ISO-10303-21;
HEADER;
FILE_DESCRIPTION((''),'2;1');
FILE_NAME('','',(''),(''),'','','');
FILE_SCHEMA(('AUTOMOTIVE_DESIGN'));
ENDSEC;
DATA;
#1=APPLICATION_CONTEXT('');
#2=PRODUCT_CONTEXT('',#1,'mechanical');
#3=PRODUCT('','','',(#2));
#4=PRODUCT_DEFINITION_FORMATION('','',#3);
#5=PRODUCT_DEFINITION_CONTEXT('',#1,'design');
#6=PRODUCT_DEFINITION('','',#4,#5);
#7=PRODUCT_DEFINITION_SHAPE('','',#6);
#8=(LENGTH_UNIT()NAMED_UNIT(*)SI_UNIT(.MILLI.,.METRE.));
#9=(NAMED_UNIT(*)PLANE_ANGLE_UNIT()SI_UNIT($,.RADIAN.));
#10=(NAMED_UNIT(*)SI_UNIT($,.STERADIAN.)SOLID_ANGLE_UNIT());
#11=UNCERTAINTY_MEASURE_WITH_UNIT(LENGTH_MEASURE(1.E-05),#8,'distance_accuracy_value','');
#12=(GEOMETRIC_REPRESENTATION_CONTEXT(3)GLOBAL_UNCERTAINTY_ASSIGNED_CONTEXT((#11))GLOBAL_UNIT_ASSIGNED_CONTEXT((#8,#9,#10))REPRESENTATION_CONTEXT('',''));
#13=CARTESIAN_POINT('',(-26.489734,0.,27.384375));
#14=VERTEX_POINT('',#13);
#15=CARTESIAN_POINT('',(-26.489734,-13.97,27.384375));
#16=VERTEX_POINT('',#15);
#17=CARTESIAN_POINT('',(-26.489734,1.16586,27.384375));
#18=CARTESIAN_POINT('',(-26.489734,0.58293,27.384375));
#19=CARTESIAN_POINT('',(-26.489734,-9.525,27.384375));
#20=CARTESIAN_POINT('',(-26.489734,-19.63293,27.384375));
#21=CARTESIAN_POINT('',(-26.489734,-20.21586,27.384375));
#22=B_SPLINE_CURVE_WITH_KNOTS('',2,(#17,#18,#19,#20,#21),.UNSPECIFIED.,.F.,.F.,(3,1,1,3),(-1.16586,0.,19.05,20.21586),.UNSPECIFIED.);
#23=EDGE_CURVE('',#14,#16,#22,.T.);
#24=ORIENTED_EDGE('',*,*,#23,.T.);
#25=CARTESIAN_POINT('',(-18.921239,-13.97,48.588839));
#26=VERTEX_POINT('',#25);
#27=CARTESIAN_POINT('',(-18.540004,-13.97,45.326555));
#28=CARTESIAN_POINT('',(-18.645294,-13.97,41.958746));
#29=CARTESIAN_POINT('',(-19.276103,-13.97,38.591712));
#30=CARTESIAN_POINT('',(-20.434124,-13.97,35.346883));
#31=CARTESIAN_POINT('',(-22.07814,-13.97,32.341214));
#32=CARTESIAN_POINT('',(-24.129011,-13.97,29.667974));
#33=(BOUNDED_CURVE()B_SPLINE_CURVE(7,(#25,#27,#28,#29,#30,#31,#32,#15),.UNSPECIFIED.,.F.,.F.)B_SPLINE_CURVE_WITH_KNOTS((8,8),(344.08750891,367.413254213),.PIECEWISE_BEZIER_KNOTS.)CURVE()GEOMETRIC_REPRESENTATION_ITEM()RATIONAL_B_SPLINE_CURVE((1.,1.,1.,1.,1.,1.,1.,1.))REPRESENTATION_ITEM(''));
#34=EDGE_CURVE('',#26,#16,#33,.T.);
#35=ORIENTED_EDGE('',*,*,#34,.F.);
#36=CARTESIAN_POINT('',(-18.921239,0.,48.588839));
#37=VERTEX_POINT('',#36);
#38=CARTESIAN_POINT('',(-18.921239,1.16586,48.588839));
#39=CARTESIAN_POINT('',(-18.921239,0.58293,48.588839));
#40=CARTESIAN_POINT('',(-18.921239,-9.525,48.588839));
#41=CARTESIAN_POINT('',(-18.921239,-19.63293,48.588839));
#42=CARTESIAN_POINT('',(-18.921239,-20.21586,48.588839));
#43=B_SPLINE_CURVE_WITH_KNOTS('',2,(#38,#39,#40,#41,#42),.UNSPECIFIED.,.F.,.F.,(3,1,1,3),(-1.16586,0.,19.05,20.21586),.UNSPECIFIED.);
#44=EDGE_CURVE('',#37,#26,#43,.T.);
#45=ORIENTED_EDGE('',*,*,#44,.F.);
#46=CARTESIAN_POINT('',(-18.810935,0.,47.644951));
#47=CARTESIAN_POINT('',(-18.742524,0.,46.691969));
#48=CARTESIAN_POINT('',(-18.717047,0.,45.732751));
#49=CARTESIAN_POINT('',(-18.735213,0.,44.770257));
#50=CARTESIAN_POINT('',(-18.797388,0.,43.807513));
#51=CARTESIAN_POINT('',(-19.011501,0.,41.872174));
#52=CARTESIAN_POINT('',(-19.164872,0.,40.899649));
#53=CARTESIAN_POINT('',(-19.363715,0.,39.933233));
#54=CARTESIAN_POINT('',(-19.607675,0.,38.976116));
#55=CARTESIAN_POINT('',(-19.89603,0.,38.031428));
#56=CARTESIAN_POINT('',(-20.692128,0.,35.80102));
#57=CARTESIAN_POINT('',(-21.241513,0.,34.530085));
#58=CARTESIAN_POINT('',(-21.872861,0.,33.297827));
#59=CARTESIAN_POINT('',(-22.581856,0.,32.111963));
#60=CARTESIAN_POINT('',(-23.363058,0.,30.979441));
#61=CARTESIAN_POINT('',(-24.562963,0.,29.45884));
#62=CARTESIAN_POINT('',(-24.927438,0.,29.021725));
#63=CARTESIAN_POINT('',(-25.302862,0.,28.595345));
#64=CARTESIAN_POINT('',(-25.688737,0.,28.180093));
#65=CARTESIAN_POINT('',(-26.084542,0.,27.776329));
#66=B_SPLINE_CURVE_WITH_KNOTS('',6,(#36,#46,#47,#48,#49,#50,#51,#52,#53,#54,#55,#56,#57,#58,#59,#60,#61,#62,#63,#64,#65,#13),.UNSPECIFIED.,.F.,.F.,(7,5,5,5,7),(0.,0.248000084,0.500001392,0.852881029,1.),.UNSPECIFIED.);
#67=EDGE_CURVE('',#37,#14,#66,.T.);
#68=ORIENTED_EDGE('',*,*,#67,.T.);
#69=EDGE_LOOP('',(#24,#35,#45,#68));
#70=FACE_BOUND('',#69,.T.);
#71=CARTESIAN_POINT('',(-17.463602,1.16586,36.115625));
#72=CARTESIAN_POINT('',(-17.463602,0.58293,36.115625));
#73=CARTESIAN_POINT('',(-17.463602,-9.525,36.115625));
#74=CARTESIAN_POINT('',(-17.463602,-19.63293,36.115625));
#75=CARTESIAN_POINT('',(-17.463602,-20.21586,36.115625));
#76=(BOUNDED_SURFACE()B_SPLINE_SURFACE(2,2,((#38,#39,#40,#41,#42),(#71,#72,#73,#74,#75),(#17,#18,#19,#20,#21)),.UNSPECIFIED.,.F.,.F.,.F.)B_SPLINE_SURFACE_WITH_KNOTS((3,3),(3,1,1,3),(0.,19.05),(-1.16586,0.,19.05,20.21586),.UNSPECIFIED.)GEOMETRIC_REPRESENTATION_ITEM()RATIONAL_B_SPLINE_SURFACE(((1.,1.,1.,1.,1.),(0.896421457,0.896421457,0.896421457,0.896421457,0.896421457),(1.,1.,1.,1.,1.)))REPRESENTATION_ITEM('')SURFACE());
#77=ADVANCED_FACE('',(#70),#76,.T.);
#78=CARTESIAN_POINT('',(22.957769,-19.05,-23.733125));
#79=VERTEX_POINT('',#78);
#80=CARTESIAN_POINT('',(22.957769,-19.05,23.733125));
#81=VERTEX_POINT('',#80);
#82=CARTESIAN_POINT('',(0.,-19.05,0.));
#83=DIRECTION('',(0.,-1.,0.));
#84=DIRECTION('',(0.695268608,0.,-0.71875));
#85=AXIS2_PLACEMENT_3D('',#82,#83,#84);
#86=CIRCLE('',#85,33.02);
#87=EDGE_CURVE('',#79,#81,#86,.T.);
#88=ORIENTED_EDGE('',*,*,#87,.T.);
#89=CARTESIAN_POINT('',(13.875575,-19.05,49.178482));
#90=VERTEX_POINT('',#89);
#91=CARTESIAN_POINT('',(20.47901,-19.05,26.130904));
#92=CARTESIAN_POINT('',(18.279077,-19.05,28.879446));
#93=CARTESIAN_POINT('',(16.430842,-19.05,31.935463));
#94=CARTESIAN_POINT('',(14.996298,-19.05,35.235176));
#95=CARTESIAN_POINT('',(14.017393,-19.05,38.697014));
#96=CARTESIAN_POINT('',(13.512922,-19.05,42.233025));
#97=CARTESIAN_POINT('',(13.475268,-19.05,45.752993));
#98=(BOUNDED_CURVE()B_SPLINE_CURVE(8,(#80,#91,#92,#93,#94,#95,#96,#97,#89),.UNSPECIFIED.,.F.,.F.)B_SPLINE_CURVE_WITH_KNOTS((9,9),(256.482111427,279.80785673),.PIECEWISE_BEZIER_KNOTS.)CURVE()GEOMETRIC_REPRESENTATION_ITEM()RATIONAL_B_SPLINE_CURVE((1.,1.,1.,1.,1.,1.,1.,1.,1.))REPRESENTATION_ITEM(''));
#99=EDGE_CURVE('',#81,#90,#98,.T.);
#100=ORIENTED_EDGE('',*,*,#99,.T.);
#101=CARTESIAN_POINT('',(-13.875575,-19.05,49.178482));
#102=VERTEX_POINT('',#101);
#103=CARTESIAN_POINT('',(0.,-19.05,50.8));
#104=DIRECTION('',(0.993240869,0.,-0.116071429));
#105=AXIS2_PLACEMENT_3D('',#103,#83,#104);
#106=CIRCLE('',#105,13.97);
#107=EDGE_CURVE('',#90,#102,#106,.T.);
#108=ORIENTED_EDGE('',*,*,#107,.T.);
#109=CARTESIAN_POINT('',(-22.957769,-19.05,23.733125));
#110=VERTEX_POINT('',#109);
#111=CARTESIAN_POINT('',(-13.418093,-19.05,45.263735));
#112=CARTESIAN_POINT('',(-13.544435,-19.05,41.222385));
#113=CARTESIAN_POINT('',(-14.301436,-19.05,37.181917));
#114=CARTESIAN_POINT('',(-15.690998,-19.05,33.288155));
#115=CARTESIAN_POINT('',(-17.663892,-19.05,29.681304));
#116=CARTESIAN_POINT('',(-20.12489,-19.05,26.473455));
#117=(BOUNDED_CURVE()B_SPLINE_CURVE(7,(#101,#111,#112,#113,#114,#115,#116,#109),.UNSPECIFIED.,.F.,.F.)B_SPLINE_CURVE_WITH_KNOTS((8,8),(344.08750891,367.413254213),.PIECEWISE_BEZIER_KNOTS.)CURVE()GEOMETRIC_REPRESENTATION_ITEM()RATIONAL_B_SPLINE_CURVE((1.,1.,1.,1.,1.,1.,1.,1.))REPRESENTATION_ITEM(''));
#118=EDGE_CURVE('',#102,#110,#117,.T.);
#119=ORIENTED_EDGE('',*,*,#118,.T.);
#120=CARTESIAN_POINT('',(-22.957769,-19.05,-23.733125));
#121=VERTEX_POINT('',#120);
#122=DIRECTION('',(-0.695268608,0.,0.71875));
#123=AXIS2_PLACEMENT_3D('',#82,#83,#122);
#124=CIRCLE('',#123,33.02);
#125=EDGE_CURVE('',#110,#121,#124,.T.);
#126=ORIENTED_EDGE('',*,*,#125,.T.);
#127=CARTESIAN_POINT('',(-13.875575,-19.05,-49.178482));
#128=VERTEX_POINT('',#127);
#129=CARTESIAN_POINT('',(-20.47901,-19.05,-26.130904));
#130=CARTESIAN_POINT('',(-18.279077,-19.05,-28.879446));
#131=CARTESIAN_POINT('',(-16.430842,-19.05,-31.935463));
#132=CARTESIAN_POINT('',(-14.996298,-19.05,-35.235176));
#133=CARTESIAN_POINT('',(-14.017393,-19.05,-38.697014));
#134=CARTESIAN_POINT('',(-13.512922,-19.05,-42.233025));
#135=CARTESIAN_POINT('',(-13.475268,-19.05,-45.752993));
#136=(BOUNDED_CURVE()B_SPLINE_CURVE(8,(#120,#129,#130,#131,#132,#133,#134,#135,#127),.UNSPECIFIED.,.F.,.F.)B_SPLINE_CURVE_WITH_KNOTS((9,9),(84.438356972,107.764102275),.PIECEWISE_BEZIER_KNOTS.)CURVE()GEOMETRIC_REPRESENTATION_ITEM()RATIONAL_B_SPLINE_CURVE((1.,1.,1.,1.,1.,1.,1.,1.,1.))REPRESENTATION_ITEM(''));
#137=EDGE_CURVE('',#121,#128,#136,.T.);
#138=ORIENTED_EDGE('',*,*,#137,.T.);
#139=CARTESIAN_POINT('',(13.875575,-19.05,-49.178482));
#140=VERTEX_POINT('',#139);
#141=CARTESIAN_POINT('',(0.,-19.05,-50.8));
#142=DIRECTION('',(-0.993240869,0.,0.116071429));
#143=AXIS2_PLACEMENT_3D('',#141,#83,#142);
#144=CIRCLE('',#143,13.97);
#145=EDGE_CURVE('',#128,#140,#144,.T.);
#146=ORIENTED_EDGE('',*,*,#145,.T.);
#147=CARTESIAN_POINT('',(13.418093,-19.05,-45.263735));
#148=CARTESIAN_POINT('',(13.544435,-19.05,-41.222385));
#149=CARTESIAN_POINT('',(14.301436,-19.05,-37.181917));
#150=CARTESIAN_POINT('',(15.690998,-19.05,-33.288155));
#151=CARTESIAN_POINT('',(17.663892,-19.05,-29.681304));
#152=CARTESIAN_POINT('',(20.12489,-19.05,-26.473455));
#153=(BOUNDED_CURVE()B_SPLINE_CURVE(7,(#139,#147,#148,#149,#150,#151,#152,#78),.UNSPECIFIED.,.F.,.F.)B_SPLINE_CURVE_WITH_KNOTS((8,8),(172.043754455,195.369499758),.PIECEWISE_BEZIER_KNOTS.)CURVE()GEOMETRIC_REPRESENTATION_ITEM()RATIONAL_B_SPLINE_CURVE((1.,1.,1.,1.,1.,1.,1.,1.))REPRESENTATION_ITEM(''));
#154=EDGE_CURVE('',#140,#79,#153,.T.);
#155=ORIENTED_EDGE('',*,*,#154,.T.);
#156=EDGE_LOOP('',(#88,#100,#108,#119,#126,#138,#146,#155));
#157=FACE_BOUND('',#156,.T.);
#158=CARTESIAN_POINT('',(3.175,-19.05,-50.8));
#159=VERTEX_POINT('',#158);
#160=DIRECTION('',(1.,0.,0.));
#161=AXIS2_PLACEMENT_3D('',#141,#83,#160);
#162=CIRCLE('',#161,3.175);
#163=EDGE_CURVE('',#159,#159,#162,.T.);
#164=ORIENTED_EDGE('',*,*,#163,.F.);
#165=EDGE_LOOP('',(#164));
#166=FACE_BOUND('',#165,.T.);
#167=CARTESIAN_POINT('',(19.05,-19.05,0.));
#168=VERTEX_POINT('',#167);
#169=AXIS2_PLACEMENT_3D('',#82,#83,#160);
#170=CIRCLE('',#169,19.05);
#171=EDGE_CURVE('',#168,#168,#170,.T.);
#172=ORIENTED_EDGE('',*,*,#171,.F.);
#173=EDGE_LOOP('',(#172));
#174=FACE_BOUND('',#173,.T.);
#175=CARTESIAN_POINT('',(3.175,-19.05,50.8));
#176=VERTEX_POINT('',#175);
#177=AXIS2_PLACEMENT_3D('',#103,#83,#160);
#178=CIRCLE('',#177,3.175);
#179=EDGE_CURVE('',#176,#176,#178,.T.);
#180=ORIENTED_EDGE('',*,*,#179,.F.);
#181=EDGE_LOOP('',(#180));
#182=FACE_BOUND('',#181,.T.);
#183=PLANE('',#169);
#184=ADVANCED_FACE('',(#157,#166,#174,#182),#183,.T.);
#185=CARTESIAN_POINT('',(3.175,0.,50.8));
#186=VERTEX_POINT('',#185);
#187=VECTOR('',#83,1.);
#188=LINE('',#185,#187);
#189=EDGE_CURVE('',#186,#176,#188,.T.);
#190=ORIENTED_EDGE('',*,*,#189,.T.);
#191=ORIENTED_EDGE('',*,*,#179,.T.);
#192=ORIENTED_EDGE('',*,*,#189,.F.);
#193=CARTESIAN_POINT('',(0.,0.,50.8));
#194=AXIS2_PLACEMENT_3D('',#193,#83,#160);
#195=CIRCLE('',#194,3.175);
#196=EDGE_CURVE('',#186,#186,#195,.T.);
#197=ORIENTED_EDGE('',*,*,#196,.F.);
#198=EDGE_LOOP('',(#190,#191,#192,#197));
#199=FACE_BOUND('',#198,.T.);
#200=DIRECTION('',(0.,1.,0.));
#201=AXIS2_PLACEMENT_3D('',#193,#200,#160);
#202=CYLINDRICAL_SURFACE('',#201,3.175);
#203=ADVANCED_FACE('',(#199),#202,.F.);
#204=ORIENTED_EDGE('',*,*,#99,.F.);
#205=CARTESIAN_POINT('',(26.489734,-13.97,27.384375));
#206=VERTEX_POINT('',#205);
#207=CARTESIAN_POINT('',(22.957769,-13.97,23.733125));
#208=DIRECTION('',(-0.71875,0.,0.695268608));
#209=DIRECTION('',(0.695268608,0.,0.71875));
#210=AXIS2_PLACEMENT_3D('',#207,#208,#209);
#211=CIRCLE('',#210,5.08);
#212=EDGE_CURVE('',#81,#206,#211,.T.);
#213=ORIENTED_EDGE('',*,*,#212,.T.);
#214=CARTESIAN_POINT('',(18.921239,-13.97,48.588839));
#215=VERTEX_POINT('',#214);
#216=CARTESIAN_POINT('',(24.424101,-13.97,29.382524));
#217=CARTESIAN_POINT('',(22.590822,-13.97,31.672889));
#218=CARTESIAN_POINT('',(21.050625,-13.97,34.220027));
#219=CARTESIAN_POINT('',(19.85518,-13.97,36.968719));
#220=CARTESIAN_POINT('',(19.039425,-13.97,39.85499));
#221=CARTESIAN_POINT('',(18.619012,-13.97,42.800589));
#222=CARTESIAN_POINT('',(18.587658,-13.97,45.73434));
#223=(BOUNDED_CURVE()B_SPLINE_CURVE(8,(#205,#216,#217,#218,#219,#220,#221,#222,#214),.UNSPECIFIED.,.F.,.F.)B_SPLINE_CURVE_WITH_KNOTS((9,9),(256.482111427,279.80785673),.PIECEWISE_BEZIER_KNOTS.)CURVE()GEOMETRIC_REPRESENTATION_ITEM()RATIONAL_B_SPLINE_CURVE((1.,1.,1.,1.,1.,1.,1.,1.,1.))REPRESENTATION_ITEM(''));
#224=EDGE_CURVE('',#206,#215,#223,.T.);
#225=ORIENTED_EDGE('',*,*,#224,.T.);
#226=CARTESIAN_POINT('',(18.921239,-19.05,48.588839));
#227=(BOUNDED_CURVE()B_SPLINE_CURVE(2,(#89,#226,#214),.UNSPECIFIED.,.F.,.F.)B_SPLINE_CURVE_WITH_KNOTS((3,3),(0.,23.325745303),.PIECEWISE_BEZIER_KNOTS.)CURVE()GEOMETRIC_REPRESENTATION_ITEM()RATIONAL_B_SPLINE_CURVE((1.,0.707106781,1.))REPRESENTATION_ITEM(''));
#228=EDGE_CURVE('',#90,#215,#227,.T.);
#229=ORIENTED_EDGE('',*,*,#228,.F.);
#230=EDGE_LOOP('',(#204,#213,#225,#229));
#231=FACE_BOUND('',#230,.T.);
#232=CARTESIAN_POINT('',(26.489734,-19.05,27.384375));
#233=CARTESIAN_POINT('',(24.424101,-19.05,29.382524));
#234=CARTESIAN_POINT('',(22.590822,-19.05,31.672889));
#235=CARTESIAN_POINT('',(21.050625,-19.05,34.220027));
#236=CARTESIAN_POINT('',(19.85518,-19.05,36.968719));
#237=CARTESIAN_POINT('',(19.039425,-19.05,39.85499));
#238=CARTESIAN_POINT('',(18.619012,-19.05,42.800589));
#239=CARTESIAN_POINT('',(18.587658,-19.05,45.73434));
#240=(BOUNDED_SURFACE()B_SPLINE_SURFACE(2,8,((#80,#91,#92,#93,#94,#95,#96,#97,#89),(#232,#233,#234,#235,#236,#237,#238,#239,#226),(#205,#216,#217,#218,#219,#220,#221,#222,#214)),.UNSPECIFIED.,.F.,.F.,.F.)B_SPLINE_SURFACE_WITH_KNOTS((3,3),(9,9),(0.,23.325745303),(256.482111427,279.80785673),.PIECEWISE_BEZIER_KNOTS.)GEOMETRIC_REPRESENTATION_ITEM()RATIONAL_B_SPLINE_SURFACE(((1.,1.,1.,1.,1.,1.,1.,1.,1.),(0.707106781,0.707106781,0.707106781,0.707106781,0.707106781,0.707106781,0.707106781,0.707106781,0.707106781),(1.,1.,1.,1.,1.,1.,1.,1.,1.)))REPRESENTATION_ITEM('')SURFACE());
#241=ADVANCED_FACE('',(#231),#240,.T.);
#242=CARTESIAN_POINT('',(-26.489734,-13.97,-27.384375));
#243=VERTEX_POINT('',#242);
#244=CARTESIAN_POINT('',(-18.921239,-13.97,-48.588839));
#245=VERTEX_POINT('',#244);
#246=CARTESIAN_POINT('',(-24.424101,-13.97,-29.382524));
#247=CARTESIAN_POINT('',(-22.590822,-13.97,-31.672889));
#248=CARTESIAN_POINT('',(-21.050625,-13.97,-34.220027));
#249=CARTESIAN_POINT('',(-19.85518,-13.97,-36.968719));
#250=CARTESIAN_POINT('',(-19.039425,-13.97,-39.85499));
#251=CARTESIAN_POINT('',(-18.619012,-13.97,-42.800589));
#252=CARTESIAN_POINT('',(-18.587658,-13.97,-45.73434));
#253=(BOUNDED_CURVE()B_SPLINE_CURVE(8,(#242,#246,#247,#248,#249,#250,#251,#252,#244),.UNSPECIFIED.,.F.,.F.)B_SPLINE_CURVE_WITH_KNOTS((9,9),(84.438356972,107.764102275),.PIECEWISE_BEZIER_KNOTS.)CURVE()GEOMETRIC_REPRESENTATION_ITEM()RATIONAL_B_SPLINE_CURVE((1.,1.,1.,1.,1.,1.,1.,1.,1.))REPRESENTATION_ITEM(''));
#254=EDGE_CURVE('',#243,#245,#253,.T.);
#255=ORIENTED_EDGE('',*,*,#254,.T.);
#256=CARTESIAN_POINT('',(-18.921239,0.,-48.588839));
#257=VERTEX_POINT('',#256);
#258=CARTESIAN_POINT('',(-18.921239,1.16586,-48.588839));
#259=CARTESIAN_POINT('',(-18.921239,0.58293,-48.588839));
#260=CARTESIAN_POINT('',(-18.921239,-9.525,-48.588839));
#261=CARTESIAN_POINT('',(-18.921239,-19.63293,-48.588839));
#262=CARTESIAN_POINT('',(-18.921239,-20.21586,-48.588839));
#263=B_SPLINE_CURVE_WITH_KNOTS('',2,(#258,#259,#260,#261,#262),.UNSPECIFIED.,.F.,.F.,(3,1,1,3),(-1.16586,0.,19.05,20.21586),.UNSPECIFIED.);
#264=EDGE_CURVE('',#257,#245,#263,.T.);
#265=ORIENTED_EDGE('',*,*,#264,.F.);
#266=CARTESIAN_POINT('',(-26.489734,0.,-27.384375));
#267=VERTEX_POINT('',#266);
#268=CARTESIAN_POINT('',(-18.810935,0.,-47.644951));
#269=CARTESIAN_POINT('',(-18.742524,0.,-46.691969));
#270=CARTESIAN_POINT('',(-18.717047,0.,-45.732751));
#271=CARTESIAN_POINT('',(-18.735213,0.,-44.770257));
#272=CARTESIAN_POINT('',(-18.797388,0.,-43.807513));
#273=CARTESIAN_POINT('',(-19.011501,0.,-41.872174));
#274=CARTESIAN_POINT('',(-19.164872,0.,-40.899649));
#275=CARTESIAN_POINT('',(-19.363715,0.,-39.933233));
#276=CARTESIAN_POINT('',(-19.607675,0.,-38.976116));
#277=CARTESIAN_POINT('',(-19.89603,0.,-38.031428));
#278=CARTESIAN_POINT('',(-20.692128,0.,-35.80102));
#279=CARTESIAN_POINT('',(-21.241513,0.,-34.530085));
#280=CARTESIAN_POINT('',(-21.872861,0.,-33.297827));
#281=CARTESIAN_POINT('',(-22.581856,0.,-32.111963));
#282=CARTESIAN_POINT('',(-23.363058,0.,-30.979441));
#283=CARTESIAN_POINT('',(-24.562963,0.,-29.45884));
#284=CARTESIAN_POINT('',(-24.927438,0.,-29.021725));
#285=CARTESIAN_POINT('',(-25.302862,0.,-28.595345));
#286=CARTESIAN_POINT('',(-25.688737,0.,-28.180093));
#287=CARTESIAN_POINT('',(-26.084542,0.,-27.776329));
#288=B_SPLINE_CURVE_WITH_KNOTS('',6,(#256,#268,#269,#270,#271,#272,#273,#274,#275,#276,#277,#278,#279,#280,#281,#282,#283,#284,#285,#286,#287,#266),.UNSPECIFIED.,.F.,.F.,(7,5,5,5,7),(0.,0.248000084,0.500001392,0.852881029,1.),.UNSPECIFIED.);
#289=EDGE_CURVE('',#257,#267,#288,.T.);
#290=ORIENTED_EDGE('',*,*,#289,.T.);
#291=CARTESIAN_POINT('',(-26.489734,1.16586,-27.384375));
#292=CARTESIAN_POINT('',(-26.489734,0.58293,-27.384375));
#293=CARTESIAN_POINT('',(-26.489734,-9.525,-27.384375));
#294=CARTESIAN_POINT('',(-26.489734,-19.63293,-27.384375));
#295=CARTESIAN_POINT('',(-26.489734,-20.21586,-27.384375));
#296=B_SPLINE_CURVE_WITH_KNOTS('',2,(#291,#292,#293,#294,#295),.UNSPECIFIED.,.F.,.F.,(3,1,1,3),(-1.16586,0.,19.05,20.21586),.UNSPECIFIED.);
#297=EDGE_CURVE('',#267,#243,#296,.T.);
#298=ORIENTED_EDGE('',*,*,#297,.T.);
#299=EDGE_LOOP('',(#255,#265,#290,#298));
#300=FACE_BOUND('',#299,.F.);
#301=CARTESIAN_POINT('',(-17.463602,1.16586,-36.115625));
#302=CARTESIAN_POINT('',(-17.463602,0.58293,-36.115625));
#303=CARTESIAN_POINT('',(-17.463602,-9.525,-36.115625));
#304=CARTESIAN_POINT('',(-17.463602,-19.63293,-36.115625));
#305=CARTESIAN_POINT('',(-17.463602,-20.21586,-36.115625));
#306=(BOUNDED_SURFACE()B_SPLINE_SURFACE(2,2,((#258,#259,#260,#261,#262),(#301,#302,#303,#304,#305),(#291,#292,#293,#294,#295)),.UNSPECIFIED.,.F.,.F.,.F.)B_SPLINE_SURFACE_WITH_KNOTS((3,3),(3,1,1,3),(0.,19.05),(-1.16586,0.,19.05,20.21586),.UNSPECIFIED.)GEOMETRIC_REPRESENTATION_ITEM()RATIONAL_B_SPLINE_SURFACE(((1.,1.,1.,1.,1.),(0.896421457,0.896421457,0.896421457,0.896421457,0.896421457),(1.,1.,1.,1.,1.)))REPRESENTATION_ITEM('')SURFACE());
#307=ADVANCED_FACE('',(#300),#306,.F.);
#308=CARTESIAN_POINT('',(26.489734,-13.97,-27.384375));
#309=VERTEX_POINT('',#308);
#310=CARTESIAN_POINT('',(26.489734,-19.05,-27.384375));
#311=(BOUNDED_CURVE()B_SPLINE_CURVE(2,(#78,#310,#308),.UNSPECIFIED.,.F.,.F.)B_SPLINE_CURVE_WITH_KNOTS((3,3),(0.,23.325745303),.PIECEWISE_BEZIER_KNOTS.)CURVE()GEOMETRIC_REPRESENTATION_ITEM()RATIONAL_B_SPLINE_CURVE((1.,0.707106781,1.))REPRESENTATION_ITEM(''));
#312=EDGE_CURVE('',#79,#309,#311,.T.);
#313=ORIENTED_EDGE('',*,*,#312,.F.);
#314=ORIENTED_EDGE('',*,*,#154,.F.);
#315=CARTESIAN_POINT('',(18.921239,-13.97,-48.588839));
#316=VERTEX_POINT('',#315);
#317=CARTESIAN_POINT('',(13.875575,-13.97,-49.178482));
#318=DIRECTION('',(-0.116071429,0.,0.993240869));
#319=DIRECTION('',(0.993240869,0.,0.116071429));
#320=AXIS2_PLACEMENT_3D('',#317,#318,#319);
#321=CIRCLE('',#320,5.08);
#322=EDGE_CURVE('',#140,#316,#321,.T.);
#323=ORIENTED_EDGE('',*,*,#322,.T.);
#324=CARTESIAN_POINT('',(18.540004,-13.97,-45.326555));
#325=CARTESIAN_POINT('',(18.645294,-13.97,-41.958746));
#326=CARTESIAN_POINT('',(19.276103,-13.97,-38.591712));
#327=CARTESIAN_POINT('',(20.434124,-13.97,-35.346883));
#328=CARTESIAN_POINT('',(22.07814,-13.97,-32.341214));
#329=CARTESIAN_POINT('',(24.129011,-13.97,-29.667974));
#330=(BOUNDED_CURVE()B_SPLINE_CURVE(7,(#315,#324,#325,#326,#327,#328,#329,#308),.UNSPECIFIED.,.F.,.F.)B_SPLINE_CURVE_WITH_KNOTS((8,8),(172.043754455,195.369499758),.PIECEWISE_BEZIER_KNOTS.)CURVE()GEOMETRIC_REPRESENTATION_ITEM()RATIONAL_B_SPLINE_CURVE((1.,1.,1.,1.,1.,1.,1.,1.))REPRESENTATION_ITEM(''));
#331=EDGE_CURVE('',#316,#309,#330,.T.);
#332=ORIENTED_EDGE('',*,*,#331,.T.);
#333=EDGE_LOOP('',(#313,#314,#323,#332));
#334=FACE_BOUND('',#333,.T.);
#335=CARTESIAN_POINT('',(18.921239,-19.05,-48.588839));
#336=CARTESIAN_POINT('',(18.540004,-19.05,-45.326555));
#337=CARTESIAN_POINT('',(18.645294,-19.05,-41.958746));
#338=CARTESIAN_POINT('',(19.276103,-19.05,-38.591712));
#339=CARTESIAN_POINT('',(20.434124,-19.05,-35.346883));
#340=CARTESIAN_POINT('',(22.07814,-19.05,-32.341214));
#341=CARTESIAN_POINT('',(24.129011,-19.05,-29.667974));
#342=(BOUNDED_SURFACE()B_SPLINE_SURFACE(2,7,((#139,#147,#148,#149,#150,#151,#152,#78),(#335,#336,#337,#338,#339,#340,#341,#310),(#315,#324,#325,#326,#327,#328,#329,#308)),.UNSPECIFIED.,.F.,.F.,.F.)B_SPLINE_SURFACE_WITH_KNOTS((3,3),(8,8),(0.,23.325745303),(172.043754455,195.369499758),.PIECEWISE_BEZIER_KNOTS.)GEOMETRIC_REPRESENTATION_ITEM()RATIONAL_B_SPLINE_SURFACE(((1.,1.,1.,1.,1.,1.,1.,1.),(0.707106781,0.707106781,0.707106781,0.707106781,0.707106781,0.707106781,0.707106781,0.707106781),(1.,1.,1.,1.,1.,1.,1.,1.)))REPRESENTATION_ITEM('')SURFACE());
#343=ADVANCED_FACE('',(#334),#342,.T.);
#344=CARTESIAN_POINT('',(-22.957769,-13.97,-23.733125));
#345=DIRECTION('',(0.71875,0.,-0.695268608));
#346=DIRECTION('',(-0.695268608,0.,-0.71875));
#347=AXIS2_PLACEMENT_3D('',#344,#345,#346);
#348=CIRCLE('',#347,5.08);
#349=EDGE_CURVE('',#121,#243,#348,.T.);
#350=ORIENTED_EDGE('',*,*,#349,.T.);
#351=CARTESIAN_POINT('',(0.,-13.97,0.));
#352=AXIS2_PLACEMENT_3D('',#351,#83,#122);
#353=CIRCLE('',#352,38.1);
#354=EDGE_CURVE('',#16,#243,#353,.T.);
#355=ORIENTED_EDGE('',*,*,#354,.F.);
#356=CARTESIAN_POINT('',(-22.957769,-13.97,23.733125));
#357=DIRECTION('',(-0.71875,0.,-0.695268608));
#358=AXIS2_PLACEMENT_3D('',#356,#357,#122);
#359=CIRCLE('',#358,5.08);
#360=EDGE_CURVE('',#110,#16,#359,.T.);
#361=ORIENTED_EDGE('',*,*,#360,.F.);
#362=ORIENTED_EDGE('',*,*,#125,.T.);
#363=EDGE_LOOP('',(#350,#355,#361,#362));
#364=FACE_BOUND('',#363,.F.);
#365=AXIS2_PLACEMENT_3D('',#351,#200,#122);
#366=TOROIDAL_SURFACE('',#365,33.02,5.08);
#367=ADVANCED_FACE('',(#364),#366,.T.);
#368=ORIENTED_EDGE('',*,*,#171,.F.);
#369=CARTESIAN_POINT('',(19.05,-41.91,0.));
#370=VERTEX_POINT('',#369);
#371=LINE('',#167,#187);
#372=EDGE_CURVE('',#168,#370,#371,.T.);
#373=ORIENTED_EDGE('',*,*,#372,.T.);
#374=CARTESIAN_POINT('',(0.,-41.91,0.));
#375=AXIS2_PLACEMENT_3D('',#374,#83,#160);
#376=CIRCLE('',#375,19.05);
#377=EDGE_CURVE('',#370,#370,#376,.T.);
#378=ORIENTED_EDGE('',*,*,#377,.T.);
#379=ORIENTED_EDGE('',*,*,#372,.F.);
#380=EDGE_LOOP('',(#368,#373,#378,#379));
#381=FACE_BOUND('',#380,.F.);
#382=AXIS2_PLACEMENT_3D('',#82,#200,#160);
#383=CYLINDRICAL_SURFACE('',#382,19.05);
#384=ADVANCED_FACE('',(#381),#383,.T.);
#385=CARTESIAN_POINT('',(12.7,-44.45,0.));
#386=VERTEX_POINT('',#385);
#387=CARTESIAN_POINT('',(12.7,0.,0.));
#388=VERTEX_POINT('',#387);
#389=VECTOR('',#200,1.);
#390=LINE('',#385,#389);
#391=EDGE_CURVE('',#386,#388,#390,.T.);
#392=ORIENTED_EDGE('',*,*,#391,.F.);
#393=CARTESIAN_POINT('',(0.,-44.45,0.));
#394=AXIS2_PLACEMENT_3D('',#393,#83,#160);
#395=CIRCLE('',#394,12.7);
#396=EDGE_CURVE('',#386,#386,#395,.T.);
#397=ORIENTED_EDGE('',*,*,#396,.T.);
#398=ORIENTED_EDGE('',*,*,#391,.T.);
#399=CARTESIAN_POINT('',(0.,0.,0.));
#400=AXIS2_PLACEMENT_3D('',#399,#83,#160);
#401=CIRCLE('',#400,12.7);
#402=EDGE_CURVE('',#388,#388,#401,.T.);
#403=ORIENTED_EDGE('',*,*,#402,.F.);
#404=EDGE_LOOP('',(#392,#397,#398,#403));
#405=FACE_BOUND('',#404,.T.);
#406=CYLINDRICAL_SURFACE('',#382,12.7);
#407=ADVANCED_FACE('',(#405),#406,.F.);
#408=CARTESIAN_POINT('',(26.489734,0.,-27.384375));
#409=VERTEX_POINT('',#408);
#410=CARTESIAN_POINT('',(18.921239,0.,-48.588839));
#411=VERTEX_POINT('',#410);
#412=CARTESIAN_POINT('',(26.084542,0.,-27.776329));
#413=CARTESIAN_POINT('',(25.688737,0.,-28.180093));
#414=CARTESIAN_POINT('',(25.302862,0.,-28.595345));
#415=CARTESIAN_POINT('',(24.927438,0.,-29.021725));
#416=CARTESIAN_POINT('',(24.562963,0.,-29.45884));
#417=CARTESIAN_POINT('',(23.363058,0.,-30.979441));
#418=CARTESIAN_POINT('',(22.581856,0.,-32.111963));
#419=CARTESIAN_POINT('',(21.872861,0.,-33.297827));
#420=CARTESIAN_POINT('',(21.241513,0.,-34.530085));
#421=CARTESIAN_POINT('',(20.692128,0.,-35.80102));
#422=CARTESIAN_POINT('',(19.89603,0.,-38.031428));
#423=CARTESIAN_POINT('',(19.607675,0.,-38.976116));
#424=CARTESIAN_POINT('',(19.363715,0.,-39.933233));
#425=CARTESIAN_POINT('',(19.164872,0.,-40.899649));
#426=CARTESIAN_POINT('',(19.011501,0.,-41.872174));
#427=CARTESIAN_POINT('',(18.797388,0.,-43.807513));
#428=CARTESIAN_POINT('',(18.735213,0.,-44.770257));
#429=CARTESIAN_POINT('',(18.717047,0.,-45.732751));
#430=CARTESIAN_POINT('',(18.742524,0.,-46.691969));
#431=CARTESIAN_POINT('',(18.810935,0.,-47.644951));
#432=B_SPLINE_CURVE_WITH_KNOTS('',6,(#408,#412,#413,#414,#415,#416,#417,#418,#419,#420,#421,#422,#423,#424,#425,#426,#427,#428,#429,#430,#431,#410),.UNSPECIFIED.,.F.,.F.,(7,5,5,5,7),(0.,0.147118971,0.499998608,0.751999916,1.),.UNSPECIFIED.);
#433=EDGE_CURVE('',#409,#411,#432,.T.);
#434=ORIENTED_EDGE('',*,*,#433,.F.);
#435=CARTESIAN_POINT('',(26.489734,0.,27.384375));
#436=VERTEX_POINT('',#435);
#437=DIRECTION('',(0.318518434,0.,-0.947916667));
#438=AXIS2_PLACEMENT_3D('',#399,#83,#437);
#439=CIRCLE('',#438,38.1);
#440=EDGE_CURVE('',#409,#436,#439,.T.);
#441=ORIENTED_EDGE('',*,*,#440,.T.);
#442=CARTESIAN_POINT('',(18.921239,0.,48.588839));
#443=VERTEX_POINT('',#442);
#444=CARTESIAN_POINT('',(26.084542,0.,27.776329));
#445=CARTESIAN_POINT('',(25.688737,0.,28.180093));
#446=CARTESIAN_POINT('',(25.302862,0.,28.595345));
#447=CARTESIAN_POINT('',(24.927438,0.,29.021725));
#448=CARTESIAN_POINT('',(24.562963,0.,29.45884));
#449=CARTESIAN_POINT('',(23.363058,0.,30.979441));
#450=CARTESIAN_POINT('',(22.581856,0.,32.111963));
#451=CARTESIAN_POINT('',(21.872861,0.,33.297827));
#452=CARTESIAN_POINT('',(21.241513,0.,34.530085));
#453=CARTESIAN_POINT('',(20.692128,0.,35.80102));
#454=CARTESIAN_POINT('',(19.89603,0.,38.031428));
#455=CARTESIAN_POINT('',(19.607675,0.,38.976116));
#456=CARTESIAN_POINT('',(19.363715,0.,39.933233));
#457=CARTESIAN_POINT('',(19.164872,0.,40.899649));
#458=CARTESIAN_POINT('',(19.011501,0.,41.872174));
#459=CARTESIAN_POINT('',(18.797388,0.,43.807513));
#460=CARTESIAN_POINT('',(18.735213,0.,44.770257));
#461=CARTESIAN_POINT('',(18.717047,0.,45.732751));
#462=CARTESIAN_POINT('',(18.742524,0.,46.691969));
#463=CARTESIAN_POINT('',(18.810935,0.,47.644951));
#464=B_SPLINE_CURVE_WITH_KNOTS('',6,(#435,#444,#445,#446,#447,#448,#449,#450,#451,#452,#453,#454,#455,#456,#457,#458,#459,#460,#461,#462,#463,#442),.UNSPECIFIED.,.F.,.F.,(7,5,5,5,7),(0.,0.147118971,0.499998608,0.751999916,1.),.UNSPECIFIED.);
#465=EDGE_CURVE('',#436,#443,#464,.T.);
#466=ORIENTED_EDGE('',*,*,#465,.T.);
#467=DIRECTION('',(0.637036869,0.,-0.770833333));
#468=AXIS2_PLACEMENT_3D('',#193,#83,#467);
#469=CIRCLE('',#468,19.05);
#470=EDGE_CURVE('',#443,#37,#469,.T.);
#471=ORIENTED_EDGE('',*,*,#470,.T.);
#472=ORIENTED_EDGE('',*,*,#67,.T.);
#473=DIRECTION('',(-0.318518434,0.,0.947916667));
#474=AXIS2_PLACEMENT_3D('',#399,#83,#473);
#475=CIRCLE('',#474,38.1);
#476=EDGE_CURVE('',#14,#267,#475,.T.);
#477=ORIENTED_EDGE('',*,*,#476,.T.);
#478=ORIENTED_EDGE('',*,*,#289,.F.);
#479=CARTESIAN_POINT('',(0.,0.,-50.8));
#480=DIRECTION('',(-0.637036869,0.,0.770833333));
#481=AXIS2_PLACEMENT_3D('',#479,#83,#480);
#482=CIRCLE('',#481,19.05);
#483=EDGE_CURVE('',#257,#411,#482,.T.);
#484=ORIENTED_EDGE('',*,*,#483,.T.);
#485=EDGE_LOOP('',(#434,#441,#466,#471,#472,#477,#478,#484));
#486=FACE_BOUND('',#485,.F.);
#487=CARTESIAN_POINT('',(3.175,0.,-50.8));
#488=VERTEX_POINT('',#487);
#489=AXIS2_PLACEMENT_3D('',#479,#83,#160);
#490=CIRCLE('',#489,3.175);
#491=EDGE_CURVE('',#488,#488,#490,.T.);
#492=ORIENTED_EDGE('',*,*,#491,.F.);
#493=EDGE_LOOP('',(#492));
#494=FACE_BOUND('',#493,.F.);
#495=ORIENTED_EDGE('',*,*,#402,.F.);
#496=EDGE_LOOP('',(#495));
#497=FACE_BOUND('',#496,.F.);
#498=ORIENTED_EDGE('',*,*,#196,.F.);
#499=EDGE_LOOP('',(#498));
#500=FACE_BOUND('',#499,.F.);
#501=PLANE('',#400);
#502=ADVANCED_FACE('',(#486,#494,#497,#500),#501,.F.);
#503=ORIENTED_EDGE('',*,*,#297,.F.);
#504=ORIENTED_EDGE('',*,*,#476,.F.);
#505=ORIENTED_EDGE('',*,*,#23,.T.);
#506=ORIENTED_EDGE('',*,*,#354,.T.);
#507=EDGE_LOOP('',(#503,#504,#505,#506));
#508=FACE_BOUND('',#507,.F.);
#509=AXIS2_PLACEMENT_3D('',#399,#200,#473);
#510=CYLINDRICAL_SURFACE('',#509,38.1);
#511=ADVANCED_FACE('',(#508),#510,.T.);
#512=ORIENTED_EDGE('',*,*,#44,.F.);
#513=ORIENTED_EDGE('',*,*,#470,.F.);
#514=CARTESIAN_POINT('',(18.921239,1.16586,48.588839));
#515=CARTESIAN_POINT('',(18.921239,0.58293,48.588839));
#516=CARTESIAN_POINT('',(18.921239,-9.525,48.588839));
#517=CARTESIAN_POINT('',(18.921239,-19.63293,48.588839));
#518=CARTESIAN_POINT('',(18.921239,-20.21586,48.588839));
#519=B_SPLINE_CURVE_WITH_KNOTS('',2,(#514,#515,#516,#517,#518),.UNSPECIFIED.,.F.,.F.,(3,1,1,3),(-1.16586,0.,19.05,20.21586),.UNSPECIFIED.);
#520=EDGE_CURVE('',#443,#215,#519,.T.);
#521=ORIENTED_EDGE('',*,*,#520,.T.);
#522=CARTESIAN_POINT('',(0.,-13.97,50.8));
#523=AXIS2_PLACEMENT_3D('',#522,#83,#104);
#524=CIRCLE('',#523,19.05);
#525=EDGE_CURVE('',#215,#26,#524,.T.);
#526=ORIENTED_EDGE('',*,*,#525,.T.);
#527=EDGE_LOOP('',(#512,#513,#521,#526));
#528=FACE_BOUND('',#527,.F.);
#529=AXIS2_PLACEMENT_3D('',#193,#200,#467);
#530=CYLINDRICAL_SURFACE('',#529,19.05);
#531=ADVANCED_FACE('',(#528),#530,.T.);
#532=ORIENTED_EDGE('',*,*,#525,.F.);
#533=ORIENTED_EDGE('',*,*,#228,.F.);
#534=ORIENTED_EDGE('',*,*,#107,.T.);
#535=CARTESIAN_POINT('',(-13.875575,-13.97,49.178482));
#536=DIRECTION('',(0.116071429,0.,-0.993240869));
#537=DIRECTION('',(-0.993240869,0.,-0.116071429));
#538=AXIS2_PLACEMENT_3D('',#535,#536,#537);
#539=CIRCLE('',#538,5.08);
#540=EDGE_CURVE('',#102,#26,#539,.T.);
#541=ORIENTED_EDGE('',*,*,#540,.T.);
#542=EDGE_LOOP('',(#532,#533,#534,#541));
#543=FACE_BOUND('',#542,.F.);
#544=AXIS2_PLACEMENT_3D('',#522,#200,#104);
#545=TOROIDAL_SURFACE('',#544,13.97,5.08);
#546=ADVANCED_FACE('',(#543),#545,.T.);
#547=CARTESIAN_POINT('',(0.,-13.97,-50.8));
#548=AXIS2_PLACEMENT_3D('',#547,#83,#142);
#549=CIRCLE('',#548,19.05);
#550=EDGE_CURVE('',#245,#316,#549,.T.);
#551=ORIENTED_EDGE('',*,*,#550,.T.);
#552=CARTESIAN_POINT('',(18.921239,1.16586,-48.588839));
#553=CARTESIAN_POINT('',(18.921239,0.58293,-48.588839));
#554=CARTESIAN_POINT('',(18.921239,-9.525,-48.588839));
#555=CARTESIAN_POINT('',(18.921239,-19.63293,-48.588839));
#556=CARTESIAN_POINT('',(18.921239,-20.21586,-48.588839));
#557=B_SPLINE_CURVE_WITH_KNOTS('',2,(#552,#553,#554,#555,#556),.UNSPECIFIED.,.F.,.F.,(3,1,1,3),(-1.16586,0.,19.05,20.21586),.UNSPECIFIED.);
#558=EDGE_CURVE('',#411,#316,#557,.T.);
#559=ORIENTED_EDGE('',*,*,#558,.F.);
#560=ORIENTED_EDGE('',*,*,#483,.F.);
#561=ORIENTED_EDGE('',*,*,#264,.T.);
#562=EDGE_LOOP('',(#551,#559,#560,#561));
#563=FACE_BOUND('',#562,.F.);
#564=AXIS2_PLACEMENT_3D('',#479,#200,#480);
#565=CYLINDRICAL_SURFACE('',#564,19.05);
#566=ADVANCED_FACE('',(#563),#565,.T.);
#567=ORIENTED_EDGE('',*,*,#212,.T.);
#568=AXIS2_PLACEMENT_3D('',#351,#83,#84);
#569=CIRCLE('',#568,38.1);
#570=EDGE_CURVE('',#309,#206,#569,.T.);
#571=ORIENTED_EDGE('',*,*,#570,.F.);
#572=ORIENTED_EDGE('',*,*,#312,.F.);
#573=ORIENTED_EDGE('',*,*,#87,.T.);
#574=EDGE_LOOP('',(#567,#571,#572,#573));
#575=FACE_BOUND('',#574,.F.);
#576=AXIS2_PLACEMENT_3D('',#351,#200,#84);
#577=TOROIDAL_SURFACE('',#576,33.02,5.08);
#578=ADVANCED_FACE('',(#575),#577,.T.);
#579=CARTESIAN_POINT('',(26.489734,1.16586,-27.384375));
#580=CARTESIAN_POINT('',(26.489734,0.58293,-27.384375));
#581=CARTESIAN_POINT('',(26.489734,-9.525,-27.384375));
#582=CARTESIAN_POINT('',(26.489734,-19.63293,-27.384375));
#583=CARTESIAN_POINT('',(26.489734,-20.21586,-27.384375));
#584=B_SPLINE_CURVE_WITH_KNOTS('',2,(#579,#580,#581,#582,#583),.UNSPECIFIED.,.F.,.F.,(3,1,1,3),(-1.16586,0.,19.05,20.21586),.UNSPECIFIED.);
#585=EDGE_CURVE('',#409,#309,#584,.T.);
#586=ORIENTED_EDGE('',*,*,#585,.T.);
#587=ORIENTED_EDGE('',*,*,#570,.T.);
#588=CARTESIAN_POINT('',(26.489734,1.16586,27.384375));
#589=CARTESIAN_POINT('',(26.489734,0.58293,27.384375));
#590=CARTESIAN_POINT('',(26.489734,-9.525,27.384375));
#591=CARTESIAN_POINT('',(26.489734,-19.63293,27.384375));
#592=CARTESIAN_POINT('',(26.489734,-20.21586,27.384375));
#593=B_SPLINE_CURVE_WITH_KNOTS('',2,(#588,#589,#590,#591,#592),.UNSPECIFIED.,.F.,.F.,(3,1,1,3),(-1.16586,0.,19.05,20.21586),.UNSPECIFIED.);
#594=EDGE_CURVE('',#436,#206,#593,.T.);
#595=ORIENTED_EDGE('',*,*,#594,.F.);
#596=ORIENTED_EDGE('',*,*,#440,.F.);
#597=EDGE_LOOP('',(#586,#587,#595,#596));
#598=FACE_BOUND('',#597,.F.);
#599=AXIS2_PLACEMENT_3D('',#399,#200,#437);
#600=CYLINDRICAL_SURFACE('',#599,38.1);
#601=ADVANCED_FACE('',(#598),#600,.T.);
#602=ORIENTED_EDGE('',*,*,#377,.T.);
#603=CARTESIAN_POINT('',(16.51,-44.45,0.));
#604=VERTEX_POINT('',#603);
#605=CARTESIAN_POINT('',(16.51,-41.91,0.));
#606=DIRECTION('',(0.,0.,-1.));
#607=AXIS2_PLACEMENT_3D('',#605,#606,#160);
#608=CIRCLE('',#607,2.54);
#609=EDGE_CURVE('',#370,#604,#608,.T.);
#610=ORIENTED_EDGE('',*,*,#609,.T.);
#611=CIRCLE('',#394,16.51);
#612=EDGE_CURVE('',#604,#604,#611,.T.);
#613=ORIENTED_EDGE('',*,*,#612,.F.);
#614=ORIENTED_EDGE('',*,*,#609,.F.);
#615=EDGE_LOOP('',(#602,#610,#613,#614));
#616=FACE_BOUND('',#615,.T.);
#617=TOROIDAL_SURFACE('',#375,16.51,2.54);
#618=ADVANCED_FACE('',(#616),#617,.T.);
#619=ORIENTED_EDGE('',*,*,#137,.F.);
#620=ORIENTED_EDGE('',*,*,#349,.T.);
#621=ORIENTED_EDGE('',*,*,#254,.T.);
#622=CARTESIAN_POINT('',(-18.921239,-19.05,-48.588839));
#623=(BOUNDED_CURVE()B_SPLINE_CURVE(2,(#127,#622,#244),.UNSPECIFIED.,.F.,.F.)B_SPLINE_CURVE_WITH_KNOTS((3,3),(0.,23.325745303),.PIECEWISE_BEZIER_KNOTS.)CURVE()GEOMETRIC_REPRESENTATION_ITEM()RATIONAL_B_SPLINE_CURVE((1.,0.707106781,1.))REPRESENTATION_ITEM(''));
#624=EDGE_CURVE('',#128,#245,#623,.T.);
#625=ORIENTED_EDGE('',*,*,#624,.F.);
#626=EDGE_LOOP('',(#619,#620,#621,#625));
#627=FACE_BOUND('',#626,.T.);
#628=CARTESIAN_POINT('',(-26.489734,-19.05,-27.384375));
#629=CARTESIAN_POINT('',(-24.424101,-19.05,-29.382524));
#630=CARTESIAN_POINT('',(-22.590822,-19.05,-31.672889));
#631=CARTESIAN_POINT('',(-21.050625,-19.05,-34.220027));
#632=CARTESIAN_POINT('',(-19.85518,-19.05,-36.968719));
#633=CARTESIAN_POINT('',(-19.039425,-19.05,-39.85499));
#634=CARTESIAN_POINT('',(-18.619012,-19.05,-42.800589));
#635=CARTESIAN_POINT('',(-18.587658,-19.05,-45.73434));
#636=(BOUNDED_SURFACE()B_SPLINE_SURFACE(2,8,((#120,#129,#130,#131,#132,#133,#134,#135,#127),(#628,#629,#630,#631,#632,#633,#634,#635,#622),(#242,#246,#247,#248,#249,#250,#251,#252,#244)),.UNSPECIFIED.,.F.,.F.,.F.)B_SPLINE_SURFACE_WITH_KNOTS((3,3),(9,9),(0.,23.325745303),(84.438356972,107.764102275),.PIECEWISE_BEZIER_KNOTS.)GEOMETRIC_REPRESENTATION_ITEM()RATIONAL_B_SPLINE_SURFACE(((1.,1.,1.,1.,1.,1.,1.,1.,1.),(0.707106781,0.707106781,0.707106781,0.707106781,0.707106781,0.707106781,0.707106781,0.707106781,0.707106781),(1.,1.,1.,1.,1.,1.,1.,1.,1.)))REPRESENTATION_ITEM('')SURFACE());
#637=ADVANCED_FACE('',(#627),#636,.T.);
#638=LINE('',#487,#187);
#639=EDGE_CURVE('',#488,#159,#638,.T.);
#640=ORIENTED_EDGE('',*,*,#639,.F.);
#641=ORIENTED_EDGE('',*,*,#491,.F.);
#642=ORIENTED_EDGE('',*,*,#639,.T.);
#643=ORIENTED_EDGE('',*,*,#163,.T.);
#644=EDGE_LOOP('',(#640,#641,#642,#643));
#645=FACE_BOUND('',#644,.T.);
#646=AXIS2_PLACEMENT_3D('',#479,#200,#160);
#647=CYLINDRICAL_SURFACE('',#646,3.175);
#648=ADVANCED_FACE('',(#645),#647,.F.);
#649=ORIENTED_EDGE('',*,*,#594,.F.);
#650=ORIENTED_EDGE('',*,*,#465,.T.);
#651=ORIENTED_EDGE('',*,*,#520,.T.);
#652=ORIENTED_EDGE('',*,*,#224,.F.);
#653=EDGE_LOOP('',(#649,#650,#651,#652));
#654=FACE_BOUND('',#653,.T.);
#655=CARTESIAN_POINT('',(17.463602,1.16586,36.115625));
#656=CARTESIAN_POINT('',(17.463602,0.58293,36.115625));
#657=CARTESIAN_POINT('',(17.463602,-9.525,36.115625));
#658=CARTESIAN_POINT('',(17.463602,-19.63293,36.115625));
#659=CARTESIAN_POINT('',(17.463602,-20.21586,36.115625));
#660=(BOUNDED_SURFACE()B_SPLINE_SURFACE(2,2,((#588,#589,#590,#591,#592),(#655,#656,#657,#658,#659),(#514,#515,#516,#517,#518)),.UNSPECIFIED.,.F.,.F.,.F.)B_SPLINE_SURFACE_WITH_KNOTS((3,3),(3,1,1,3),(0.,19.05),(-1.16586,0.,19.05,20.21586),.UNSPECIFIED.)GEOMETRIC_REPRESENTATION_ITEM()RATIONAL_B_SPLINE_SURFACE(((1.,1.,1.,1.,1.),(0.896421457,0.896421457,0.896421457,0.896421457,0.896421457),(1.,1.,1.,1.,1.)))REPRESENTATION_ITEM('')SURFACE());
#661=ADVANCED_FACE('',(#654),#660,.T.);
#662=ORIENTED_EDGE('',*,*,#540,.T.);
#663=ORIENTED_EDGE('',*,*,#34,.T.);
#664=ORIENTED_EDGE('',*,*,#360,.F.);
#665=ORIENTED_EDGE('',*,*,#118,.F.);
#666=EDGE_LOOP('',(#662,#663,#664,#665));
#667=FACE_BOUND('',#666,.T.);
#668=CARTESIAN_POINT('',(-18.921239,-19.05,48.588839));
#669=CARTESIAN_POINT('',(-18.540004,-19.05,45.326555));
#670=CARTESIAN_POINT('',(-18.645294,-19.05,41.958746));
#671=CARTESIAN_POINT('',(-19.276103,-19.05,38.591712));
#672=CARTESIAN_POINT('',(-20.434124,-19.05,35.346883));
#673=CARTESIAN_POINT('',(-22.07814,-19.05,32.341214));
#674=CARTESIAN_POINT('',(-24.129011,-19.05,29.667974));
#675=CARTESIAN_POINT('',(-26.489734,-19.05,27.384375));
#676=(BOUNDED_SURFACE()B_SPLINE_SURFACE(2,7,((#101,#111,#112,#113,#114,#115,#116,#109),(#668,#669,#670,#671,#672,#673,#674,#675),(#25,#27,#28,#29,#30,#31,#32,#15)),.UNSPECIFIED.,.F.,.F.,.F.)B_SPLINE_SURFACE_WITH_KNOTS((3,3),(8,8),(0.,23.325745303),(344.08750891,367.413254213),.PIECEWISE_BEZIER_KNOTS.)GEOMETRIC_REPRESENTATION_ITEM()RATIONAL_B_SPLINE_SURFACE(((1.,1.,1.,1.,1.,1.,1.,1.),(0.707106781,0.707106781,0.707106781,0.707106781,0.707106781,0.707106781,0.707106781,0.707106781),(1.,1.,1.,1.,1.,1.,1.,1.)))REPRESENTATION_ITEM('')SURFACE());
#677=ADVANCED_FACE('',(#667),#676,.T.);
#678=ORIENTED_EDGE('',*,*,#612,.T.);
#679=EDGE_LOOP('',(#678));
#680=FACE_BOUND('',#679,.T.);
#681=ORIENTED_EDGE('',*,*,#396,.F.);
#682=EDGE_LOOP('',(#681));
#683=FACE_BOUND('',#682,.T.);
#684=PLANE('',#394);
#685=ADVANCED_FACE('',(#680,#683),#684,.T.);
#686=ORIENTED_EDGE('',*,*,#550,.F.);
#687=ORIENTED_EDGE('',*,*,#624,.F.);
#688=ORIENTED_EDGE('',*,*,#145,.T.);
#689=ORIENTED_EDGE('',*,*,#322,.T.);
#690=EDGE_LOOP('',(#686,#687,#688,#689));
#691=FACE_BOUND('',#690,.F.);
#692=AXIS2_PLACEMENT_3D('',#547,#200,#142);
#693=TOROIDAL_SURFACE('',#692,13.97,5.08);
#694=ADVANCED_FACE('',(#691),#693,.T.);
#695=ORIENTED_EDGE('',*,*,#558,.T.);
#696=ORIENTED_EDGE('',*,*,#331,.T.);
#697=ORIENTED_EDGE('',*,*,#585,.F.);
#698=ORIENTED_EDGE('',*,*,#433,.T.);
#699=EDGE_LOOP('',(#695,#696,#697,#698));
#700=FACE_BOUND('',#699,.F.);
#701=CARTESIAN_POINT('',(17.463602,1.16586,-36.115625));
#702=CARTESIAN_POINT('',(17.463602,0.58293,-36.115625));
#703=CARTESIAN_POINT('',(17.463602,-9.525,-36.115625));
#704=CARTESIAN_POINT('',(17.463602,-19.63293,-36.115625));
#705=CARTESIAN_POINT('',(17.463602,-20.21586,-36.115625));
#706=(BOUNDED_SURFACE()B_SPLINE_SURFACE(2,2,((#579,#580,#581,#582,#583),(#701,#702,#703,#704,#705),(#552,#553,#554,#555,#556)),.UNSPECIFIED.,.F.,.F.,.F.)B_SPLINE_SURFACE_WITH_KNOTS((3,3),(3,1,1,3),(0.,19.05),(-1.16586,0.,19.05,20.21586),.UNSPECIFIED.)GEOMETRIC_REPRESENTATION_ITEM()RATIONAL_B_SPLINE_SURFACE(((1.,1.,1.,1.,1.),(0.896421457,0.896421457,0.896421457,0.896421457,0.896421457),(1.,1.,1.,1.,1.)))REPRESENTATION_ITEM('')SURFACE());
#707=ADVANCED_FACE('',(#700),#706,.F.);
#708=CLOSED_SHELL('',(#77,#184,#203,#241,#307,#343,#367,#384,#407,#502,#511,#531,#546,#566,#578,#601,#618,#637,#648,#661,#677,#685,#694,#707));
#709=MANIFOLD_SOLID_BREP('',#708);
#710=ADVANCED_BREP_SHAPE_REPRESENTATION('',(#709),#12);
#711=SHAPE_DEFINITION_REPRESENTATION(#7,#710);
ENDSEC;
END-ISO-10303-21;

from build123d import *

# Parameters (mm, degrees)
F0_R     = 3.175
F0_R_2   = 12.7
F1_DEPTH = 19.05
F2_R     = 25.4
F3_R     = 5.08
F4_R     = 19.05
F4_R_2   = 12.7
F5_DEPTH = 25.4
F6_R     = 2.54


with BuildPart() as f1:
    # F0 (on Front) → F1 (new body)
    with BuildSketch(Plane.XZ):
        with BuildLine():
            ThreePointArc((12.1355523508, -36.115625), (38.1, 0), (12.1355523508, 36.115625))
            ThreePointArc((12.1355523508, 36.115625), (0, 69.85), (-12.1355523508, 36.115625))
            ThreePointArc((-12.1355523508, 36.115625), (-38.1, 0), (-12.1355523508, -36.115625))
            ThreePointArc((-12.1355523508, -36.115625), (0, -69.85), (12.1355523508, -36.115625))
        make_face()
        with Locations((0, -50.8)):
            Circle(F0_R, mode=Mode.SUBTRACT)
        Circle(F0_R_2, mode=Mode.SUBTRACT)
        with Locations((0, 50.8)):
            Circle(F0_R, mode=Mode.SUBTRACT)
    extrude(amount=F1_DEPTH)

    # F2
    f2_edges = [f1.edges().sort_by_distance(p)[0] for p in [
        (12.135552, -9.525, 36.115625),
        (12.135552, -9.525, -36.115625),
        (-12.135552, -9.525, -36.115625),
        (-12.135552, -9.525, 36.115625),
    ]]
    fillet(f2_edges, radius=F2_R)

    # F3
    f3_edges = [f1.edges().sort_by_distance(p)[0] for p in [
        (-20.227695, -19.05, 37.102211),
    ]]
    fillet(f3_edges, radius=F3_R)

    # F4 (on face) → F5 (join)
    with BuildSketch(Plane.XZ.offset(19.05)):
        Circle(F4_R)
        Circle(F4_R_2, mode=Mode.SUBTRACT)
    extrude(amount=F5_DEPTH)

    # F6
    f6_edges = [f1.edges().sort_by_distance(p)[0] for p in [
        (-19.05, -44.45, 0),
    ]]
    fillet(f6_edges, radius=F6_R)


solid = f1.part
